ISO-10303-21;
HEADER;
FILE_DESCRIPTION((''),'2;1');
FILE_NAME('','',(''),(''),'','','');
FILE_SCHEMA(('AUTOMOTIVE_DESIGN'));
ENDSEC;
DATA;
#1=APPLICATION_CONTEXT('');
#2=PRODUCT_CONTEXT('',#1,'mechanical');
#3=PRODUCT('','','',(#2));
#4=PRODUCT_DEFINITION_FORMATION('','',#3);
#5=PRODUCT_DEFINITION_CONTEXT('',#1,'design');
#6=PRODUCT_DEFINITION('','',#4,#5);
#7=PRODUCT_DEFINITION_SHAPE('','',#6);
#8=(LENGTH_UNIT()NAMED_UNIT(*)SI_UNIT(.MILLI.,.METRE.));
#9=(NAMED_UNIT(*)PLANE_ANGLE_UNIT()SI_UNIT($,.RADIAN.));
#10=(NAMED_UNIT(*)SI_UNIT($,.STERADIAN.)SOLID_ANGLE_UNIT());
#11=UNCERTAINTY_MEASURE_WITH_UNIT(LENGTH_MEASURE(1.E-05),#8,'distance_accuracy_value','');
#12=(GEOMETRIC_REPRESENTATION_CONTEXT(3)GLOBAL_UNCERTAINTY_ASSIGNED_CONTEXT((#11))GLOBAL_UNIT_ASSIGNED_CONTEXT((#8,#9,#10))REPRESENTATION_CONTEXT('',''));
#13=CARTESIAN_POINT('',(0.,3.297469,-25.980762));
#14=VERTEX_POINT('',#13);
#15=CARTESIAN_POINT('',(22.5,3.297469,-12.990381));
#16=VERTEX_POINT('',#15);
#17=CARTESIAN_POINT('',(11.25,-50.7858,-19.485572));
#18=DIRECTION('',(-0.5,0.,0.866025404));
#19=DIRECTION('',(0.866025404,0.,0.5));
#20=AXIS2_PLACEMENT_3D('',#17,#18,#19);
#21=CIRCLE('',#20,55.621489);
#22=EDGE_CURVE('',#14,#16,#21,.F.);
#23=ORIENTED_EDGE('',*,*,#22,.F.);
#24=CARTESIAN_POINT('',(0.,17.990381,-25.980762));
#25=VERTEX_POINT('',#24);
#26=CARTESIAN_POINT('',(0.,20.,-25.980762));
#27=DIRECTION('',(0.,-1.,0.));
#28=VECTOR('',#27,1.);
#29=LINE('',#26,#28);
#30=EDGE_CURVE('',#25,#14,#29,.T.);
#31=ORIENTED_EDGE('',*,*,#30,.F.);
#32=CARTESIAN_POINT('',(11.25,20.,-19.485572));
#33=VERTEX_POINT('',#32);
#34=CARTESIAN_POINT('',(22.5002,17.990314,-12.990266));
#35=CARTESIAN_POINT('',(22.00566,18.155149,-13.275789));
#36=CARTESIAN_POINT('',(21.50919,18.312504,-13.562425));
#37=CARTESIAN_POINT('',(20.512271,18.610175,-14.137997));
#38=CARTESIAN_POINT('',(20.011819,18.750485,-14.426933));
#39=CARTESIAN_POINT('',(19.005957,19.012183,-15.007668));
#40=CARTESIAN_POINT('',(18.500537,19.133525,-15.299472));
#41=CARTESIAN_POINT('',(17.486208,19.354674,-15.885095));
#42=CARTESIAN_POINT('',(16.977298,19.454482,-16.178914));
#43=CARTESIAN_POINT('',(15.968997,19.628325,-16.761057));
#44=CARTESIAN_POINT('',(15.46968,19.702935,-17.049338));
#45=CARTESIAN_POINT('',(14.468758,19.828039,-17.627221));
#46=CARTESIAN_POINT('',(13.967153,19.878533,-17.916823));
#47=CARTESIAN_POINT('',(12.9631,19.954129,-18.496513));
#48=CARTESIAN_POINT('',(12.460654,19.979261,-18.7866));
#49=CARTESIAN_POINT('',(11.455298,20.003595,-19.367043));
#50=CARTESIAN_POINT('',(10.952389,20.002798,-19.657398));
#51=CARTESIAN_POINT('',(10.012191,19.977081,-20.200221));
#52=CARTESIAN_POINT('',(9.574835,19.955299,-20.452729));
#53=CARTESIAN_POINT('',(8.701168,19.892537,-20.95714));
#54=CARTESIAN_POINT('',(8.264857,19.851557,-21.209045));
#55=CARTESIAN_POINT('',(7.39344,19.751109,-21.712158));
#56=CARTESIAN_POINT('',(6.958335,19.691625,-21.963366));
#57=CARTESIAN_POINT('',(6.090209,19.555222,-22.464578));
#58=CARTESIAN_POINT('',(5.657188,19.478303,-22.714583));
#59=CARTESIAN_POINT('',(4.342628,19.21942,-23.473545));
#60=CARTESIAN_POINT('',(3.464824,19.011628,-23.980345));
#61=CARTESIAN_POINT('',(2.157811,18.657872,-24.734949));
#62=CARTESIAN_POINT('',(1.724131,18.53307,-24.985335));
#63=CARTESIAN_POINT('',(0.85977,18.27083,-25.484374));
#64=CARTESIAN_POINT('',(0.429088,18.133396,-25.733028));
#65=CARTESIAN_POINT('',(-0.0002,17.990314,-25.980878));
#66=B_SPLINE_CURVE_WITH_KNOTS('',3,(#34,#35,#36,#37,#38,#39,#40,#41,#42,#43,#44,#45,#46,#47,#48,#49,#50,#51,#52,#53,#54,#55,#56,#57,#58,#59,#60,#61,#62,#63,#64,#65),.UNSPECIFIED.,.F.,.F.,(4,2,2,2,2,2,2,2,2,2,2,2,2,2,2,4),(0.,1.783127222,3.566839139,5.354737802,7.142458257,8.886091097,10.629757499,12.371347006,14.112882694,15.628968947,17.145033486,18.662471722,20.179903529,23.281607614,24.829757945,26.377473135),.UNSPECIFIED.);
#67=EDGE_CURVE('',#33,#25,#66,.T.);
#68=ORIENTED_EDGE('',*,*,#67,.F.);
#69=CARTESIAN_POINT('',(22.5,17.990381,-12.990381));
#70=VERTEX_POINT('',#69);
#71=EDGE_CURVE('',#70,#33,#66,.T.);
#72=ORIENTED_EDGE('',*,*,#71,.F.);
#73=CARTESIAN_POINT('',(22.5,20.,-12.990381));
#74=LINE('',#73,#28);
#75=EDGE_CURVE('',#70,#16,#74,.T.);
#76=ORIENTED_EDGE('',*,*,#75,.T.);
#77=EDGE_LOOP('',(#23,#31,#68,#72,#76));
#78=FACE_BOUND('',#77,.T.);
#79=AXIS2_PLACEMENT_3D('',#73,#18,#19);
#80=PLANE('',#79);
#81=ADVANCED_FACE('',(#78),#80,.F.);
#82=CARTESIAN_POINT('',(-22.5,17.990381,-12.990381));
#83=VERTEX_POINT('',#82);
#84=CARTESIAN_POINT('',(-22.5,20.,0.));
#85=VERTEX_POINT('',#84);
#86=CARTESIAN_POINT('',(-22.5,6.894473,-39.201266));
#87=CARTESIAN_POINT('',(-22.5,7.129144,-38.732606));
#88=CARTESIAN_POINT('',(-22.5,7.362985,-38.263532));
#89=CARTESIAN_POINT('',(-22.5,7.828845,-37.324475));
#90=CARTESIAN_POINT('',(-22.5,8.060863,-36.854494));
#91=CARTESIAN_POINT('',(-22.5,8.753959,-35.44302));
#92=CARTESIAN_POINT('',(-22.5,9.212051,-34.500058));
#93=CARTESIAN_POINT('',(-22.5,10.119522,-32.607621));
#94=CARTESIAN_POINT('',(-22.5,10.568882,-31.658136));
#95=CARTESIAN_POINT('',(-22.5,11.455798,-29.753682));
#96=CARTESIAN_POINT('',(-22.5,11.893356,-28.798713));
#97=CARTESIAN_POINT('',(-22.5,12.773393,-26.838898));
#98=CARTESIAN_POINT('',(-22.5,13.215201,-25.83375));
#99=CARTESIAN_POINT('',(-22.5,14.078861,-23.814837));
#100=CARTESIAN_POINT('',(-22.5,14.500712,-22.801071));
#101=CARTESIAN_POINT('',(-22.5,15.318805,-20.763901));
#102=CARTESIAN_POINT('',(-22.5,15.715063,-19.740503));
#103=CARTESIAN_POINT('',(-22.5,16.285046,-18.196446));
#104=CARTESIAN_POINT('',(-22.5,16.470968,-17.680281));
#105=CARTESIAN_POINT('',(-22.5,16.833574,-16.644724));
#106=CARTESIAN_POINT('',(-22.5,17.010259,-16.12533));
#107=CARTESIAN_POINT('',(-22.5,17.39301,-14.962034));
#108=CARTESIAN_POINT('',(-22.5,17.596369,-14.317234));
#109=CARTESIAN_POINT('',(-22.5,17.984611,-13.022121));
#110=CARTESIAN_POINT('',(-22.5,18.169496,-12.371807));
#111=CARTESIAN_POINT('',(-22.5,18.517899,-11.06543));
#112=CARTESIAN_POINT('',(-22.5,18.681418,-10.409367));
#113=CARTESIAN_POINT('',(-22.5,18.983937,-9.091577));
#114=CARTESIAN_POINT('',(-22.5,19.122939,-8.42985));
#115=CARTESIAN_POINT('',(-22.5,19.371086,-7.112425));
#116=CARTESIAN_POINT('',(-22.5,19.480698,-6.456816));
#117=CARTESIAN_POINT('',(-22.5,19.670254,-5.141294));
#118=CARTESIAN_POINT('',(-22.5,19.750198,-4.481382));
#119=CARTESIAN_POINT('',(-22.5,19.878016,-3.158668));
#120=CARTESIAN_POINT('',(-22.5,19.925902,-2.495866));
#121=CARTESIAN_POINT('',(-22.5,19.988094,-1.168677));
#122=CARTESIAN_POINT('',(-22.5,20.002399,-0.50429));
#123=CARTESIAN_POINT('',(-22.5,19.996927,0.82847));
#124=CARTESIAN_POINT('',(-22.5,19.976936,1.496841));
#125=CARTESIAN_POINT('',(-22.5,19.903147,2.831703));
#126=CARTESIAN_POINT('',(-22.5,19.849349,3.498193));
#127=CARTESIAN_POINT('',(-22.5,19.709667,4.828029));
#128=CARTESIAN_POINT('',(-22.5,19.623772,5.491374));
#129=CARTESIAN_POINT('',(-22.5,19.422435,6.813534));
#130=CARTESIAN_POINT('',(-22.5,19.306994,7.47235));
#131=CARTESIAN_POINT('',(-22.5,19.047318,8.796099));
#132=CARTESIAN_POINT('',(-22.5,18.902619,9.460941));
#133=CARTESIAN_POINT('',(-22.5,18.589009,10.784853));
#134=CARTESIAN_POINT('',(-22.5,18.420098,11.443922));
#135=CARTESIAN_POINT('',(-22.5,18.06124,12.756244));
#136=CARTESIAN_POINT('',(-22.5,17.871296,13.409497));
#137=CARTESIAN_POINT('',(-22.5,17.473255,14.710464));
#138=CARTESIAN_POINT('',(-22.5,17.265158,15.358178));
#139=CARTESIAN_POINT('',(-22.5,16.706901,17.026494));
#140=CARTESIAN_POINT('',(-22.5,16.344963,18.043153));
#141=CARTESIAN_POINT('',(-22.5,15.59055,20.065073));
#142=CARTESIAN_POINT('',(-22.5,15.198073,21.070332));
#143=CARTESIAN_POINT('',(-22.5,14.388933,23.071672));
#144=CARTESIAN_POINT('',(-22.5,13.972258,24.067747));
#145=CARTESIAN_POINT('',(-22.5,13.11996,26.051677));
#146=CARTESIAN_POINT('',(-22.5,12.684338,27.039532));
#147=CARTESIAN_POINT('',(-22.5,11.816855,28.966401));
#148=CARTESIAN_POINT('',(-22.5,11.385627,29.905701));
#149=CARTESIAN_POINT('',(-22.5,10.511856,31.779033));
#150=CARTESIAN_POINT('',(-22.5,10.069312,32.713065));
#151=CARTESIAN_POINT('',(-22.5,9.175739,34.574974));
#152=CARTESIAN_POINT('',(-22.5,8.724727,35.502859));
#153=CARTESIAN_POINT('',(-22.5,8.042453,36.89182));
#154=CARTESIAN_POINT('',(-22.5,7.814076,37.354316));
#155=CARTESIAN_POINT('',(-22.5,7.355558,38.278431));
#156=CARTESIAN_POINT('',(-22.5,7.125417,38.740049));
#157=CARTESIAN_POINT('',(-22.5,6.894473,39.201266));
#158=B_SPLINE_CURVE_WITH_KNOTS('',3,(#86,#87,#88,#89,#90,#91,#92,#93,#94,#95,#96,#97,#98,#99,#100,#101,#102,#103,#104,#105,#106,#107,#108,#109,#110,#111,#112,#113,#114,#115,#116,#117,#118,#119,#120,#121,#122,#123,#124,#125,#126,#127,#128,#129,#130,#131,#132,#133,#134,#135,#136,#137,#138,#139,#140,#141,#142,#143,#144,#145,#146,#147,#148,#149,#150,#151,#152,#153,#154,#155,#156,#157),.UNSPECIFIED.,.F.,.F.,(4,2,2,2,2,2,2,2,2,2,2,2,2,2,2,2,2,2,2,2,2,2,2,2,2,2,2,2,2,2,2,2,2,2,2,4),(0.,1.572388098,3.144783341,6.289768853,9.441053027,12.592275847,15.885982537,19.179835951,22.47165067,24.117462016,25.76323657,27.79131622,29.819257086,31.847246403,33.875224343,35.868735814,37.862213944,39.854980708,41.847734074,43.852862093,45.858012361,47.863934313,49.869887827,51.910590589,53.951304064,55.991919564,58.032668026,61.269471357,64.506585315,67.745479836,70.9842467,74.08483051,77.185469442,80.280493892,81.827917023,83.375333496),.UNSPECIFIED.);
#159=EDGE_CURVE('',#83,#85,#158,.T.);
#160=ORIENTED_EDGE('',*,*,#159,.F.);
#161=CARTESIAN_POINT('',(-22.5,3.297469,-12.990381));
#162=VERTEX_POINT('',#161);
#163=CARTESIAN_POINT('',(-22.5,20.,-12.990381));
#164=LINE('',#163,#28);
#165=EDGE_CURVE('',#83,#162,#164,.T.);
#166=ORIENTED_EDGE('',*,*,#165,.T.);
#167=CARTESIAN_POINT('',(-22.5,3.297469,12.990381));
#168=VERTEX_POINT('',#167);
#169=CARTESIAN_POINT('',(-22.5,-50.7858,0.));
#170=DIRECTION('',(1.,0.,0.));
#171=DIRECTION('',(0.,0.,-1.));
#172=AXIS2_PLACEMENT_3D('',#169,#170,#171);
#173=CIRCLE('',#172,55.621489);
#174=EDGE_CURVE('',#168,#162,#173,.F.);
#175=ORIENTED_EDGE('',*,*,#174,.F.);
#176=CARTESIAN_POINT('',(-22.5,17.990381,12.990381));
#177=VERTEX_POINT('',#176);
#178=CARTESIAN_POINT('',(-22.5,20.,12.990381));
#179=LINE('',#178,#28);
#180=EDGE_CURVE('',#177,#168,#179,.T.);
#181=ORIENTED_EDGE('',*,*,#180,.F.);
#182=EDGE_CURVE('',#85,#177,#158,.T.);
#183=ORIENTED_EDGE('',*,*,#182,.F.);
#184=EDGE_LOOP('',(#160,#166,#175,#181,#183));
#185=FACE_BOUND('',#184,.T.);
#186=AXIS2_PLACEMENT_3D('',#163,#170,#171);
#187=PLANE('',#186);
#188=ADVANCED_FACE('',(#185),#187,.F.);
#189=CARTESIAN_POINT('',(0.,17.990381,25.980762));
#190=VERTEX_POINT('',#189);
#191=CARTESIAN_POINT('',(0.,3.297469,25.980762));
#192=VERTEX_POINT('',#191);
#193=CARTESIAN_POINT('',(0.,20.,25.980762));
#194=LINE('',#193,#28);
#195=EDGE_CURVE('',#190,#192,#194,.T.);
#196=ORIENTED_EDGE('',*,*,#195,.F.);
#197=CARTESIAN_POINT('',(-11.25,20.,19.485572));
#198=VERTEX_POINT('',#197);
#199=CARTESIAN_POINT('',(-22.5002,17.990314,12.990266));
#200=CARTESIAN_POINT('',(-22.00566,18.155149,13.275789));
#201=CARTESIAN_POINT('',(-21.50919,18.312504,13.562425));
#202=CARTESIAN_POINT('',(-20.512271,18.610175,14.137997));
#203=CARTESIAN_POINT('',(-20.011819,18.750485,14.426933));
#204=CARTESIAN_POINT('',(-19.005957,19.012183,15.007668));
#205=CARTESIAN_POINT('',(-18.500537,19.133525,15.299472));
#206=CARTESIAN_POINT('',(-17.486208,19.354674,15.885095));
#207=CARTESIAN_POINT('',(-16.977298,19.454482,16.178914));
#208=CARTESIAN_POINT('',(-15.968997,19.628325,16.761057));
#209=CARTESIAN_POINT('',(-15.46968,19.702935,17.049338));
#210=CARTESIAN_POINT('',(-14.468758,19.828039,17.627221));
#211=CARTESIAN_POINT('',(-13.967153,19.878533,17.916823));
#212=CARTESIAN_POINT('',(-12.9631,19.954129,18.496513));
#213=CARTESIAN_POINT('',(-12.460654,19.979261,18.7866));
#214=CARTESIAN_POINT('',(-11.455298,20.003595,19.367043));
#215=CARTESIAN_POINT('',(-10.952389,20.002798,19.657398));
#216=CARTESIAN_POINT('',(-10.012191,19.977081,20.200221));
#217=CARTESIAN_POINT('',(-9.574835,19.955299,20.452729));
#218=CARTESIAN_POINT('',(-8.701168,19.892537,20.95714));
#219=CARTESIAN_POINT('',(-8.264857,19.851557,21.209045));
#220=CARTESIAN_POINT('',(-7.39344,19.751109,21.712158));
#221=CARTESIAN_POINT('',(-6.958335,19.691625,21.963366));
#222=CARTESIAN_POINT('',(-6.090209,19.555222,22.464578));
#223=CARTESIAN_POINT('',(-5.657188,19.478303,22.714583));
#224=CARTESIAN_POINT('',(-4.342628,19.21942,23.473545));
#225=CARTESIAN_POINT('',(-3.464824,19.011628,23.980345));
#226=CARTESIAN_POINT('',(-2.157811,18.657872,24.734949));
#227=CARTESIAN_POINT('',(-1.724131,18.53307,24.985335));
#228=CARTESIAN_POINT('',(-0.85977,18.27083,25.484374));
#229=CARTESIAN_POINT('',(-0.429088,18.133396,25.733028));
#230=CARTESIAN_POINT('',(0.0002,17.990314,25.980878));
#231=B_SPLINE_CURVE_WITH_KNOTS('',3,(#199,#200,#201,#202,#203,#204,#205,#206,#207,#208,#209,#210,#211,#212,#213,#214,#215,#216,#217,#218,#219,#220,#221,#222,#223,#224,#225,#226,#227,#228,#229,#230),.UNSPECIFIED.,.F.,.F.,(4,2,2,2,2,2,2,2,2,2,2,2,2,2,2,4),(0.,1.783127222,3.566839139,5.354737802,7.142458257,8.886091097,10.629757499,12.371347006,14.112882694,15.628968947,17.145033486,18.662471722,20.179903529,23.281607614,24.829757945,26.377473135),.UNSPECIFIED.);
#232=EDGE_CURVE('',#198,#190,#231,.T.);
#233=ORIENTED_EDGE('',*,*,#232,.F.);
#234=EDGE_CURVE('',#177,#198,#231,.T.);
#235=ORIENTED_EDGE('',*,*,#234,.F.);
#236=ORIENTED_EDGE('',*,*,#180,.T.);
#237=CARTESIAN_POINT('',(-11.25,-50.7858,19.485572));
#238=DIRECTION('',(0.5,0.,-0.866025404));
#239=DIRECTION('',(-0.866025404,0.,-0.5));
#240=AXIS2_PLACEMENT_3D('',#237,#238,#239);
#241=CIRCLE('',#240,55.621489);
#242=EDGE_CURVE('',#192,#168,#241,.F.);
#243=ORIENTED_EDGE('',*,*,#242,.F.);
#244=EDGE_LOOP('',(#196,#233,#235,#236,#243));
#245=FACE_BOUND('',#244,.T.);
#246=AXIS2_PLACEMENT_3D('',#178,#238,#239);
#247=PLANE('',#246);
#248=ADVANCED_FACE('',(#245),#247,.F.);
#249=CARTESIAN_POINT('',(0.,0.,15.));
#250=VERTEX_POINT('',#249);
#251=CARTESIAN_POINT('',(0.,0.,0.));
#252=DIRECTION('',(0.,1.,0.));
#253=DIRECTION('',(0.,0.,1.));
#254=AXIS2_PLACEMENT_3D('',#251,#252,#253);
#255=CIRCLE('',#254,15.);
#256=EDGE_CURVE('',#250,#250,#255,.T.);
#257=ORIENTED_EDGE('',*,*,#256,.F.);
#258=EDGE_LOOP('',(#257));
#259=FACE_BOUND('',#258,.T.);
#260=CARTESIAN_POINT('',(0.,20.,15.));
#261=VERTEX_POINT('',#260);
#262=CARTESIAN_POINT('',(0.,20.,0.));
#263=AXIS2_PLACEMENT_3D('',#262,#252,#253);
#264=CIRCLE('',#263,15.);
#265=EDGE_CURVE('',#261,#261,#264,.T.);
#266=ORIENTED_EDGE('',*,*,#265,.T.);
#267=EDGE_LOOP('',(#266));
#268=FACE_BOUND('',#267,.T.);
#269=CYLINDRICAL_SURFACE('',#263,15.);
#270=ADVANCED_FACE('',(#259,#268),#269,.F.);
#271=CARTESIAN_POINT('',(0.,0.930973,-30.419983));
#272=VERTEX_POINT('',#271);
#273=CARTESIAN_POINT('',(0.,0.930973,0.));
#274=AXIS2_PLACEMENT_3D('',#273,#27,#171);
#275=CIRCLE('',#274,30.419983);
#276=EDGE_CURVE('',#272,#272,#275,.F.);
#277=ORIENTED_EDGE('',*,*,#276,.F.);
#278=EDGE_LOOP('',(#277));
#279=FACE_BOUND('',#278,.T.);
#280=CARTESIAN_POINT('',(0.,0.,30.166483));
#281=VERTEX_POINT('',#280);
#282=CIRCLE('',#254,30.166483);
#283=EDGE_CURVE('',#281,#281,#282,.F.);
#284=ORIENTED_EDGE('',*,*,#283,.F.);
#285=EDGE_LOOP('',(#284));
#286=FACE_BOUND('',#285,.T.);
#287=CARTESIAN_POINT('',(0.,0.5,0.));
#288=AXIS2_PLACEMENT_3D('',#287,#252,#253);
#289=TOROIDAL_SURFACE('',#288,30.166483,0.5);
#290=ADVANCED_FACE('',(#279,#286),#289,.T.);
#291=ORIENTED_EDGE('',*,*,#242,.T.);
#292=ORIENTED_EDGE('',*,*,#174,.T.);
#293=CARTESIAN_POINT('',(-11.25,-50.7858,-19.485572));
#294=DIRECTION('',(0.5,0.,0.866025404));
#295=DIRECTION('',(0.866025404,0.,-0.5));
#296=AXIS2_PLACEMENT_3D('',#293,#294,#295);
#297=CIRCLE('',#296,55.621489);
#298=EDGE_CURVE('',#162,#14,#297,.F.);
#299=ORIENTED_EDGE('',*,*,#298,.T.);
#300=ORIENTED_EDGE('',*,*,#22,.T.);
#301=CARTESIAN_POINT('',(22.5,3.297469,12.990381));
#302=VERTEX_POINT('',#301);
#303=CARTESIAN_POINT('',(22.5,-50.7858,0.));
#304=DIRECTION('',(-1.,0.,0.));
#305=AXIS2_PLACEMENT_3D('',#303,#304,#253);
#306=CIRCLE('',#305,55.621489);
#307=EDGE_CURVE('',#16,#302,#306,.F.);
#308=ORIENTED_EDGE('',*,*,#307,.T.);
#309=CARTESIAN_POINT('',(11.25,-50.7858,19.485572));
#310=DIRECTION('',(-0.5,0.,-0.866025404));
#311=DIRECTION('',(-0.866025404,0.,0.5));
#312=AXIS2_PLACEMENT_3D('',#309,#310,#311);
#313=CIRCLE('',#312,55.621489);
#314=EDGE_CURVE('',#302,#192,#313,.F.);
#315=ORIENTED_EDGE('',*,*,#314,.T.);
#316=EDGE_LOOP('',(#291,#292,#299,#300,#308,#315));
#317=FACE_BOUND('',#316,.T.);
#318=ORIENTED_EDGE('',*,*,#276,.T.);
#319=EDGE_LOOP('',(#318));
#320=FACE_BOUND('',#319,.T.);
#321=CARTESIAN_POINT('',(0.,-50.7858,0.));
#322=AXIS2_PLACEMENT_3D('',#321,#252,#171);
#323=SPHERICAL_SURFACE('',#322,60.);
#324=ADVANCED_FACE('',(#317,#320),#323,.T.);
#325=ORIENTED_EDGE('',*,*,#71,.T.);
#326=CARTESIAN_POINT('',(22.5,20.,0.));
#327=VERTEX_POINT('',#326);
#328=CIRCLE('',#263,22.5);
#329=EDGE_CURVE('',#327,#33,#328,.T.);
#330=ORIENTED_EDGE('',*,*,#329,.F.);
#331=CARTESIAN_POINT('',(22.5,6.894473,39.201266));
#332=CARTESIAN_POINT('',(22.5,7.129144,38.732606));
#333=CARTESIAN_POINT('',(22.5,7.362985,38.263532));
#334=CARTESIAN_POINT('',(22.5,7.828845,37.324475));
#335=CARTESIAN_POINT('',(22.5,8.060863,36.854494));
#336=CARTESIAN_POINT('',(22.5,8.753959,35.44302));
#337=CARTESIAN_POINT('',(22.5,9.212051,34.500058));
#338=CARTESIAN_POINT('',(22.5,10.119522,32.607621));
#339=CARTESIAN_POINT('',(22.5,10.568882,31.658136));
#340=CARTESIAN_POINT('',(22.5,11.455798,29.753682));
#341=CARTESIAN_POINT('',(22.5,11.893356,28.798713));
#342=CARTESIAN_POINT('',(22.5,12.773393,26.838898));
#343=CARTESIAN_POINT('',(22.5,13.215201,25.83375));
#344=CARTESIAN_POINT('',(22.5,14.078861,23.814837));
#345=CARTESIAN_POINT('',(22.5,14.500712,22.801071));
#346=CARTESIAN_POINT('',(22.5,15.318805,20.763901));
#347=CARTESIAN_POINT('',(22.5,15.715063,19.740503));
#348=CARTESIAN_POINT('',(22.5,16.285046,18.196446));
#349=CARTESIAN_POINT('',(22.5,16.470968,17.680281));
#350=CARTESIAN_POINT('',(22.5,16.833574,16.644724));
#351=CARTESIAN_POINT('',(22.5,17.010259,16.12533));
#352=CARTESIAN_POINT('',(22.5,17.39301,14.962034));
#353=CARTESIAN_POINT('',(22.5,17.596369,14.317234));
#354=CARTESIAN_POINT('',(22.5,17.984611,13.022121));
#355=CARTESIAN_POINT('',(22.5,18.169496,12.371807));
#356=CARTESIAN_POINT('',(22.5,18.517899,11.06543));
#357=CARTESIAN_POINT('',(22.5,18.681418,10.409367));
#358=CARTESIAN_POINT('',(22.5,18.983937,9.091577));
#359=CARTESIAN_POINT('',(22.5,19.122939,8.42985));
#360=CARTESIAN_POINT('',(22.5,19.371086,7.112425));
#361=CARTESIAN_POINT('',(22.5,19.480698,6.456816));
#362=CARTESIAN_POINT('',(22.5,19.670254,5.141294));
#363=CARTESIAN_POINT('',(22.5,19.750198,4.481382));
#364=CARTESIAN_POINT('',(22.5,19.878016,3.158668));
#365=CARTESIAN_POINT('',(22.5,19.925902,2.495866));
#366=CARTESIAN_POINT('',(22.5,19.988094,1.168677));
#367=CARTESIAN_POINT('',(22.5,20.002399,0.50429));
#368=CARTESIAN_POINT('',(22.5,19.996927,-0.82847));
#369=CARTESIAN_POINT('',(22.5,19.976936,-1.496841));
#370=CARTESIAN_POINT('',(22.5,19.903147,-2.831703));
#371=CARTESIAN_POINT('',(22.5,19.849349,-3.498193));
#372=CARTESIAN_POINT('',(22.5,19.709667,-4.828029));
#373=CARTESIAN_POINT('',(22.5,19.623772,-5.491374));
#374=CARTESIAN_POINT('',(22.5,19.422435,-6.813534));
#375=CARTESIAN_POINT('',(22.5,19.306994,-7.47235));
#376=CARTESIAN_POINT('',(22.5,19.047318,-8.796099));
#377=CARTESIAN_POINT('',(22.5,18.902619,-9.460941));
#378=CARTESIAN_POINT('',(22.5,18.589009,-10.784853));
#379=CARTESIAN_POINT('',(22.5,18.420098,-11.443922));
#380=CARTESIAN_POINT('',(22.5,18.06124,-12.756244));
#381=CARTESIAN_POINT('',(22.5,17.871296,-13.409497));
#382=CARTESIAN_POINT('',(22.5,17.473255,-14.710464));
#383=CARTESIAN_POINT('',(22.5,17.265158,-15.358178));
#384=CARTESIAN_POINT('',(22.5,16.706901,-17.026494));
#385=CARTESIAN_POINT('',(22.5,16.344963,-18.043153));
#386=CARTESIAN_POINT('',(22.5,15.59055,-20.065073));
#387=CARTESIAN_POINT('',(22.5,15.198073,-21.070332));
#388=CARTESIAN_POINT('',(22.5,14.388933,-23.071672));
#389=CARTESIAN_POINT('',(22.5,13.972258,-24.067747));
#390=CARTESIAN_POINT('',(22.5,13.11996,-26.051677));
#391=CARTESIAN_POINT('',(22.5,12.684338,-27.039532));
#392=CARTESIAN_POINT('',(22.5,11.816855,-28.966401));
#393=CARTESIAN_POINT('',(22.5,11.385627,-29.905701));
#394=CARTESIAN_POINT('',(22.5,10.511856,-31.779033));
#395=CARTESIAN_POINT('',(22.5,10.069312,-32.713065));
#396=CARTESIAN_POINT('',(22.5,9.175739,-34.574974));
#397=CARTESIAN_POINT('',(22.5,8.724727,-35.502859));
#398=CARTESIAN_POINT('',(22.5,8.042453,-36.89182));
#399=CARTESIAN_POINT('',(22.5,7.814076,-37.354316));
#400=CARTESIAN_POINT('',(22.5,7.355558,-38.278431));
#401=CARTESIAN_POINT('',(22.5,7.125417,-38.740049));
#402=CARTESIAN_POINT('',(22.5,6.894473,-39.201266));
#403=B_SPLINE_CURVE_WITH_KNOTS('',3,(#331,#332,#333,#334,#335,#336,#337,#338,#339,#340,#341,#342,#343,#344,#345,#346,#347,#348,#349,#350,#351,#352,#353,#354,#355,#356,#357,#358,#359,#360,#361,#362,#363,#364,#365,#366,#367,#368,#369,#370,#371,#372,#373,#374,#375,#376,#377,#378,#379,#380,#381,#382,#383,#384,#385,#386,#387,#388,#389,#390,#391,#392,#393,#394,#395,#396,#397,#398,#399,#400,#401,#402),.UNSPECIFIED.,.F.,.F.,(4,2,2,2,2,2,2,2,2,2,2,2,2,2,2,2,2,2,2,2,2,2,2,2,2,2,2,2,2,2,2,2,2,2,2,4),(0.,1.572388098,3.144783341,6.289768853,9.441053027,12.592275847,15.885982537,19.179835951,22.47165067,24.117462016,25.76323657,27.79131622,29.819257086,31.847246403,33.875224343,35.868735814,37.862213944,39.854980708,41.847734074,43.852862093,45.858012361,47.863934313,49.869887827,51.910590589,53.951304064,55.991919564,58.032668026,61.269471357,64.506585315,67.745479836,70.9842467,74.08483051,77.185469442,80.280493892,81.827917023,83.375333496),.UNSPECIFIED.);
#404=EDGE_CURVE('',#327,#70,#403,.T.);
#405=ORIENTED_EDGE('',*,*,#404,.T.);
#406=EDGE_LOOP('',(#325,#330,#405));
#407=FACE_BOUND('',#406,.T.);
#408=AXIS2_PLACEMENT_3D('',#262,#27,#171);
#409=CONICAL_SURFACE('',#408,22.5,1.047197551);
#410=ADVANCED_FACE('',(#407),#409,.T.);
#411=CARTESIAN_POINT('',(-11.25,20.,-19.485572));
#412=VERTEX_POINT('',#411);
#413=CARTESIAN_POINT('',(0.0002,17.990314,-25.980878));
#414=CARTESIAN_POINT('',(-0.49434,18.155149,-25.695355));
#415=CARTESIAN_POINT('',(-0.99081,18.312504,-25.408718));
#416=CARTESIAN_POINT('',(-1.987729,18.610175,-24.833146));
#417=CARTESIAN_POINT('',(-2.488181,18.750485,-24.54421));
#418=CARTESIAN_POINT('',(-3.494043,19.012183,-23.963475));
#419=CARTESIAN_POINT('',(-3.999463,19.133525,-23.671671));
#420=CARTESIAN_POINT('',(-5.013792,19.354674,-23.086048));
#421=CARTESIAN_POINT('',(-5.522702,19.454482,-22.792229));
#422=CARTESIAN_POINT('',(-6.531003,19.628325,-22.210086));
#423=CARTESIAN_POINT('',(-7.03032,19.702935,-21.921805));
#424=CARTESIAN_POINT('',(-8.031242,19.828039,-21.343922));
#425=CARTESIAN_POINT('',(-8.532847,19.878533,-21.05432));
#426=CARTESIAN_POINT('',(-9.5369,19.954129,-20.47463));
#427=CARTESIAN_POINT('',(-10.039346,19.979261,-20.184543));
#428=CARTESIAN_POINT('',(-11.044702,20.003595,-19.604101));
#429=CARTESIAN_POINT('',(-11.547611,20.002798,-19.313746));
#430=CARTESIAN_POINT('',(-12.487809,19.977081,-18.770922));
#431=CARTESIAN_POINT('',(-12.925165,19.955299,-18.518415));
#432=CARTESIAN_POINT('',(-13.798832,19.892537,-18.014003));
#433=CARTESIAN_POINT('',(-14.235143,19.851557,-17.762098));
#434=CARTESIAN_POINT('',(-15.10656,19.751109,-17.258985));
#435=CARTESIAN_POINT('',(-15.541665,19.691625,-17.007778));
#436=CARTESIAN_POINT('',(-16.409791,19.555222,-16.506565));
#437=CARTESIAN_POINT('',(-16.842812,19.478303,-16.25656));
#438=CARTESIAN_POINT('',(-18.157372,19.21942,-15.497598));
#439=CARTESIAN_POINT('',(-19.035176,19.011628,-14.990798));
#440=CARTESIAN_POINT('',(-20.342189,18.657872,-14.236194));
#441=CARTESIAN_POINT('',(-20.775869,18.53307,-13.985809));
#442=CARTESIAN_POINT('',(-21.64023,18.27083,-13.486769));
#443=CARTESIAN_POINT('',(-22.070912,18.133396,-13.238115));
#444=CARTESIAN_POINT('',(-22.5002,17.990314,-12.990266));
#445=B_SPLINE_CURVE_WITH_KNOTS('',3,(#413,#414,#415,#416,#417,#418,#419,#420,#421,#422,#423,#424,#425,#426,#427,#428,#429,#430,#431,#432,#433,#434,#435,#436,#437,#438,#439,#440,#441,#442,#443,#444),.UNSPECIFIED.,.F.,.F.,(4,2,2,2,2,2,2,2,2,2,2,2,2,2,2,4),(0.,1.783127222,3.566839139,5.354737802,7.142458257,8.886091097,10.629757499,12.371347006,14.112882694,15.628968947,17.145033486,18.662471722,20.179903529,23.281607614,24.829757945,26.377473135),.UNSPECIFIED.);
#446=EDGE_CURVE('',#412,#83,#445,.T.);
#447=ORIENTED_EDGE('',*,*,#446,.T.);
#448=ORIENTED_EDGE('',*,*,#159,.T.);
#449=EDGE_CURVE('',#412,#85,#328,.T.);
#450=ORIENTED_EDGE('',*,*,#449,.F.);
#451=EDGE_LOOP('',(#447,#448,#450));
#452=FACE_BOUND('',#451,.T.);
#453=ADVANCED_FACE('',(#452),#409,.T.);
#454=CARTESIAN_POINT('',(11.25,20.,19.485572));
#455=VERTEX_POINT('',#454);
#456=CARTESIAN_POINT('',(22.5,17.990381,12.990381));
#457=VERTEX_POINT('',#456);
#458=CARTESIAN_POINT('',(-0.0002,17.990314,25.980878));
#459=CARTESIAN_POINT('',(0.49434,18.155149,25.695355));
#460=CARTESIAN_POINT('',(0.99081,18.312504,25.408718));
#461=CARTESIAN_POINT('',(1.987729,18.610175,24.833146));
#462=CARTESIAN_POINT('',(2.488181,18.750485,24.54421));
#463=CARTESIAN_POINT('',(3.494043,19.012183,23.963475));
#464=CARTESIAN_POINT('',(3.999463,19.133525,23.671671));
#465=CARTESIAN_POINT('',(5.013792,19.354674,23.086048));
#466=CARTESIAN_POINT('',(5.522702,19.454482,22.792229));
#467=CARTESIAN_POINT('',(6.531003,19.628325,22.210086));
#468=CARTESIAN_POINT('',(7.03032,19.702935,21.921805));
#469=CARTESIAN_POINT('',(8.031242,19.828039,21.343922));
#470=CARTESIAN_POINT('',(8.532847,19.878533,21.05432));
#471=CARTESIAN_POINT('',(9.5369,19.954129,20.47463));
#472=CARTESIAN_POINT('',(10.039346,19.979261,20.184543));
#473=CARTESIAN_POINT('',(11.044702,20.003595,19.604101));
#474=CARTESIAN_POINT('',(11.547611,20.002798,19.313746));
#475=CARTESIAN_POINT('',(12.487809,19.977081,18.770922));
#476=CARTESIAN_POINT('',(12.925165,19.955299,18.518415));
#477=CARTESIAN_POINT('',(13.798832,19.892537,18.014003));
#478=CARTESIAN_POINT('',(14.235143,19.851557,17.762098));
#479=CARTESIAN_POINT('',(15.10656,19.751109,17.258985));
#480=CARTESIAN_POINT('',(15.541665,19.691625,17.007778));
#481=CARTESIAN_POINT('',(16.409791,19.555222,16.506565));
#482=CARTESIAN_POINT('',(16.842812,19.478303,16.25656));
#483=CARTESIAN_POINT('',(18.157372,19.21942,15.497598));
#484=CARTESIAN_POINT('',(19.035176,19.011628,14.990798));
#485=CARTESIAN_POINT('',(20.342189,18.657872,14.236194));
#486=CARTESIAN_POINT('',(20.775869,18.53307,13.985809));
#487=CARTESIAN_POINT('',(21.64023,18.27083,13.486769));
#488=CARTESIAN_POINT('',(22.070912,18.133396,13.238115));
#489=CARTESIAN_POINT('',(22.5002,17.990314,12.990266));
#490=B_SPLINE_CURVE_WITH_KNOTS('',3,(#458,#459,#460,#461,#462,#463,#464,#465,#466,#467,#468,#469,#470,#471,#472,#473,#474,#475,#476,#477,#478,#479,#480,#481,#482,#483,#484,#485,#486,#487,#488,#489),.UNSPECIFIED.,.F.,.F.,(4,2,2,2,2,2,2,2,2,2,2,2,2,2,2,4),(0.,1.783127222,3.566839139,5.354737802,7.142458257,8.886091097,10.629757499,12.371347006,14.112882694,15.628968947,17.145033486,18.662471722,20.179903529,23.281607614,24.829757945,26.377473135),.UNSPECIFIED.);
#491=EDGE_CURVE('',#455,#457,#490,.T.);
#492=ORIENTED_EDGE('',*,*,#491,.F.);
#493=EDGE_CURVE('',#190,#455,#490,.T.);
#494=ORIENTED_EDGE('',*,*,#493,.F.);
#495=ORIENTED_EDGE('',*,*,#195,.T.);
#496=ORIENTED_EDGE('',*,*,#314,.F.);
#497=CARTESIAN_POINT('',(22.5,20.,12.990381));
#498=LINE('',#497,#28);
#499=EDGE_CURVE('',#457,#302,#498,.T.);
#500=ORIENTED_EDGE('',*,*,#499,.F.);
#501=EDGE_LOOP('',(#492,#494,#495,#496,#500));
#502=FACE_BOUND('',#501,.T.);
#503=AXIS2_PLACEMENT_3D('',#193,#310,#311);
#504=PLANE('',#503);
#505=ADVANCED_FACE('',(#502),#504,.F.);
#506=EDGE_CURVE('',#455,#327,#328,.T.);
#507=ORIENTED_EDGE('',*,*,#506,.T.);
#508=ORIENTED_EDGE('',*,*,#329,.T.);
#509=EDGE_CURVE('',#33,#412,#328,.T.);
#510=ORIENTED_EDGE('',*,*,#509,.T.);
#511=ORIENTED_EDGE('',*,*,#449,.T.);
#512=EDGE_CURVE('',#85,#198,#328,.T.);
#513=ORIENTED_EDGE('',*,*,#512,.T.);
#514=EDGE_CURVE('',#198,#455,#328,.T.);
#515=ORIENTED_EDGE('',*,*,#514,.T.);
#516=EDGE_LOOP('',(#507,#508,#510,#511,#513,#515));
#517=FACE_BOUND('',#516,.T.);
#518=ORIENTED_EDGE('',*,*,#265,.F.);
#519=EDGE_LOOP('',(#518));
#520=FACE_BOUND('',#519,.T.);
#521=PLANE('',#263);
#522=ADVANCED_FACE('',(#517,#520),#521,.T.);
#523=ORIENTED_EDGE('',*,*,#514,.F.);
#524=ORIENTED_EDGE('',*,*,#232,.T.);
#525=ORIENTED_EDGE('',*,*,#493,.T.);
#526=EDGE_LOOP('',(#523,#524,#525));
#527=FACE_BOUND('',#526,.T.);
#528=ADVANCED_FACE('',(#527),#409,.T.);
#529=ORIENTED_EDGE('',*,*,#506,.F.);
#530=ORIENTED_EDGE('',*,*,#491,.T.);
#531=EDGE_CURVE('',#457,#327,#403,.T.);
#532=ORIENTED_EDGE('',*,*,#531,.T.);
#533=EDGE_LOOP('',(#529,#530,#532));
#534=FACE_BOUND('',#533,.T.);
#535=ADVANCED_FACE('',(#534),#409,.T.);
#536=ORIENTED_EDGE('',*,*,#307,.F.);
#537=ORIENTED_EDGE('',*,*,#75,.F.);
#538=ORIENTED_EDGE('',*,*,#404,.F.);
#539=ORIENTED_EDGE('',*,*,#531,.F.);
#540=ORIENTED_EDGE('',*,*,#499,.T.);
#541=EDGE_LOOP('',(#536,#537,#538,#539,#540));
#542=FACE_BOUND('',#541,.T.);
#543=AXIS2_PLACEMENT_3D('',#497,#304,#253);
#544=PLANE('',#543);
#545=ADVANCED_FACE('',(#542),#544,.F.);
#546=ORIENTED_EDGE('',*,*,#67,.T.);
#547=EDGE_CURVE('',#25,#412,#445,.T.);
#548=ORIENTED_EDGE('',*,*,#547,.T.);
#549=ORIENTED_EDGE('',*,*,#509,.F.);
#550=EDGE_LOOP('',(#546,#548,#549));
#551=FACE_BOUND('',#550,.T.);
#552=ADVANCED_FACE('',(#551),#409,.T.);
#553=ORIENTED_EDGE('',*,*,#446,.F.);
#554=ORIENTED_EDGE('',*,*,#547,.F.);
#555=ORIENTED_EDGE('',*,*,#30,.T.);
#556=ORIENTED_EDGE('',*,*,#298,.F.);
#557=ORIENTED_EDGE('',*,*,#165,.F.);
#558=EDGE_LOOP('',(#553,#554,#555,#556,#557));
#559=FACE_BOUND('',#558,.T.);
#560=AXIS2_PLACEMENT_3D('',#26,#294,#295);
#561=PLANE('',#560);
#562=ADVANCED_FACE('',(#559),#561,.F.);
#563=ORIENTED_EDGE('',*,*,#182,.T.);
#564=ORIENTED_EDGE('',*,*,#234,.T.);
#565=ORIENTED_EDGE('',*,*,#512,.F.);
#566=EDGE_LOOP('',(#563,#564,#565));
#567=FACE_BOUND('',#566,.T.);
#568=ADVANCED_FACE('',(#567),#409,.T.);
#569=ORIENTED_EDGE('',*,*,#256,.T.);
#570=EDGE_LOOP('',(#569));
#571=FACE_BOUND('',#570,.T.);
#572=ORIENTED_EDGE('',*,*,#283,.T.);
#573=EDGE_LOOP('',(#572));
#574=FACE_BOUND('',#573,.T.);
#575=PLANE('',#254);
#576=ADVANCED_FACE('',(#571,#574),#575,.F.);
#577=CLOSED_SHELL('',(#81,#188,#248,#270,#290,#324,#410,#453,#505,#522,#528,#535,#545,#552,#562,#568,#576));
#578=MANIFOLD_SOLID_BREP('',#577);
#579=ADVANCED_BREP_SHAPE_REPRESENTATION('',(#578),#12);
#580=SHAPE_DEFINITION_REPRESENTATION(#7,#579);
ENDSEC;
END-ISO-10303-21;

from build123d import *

# Parameters (mm, degrees)
BOSS_EXTRUDE1_DEPTH   = 20
FILLET1_R             = 0.5
F_1_0MM_DOWEL_HOLE1_D = 30


with BuildPart() as part:
    # Sketch1 → Boss-Extrude1 (new body)
    with BuildSketch(Plane(origin=(0, 0, 0), x_dir=(1, 0, 0), z_dir=(0, 1, 0))):
        Polygon((0, -25.980762114), (22.5, -12.990381057), (22.5, 12.990381057), (0, 25.980762114), (-22.5, 12.990381057), (-22.5, -12.990381057), align=None)
    extrude(amount=BOSS_EXTRUDE1_DEPTH)

    # Sketch2 → Revolve1 (revolve)
    with BuildSketch(Plane(origin=(0, 0, 0), x_dir=(0, 0, -1), z_dir=(1, 0, 0)), mode=Mode.PRIVATE) as revolve1_sk:
        with BuildLine():
            Line((0, 9.214199819), (0, 0))
            Line((0, 0), (31.95, 0))
            ThreePointArc((31.95, 0), (16.626063713, 6.864646525), (0, 9.214199819))
        make_face()
    revolve(revolve1_sk.sketch.rotate(Axis((0, 0, 0), (0, -1, 0)), 180), axis=Axis((0, 0, 0), (0, -1, 0)))

    # Fillet1
    fillet1_edges = [part.edges().sort_by_distance(p)[0] for p in [
        (0, 0, -31.95),
    ]]
    fillet(fillet1_edges, radius=FILLET1_R)

    # Ø1.0mm Dowel Hole1 (through all)
    with Locations(Plane(origin=(0, 20, 0), x_dir=(1, 0, 0), z_dir=(0, 1, 0))):
        with Locations((0, 0)):
            Hole(F_1_0MM_DOWEL_HOLE1_D / 2)

    # Sketch6 → Cut-Revolve2 (revolve, cut)
    with BuildSketch(Plane.XY, mode=Mode.PRIVATE) as cut_revolve2_sk:
        Polygon((22.5, 20), (28.5, 20), (28.5, 16.535898385), align=None)
    revolve(cut_revolve2_sk.sketch.rotate(Axis((0, 0, 0), (0, -1, 0)), 90), axis=Axis((0, 0, 0), (0, -1, 0)), mode=Mode.SUBTRACT)


solid = part.part
